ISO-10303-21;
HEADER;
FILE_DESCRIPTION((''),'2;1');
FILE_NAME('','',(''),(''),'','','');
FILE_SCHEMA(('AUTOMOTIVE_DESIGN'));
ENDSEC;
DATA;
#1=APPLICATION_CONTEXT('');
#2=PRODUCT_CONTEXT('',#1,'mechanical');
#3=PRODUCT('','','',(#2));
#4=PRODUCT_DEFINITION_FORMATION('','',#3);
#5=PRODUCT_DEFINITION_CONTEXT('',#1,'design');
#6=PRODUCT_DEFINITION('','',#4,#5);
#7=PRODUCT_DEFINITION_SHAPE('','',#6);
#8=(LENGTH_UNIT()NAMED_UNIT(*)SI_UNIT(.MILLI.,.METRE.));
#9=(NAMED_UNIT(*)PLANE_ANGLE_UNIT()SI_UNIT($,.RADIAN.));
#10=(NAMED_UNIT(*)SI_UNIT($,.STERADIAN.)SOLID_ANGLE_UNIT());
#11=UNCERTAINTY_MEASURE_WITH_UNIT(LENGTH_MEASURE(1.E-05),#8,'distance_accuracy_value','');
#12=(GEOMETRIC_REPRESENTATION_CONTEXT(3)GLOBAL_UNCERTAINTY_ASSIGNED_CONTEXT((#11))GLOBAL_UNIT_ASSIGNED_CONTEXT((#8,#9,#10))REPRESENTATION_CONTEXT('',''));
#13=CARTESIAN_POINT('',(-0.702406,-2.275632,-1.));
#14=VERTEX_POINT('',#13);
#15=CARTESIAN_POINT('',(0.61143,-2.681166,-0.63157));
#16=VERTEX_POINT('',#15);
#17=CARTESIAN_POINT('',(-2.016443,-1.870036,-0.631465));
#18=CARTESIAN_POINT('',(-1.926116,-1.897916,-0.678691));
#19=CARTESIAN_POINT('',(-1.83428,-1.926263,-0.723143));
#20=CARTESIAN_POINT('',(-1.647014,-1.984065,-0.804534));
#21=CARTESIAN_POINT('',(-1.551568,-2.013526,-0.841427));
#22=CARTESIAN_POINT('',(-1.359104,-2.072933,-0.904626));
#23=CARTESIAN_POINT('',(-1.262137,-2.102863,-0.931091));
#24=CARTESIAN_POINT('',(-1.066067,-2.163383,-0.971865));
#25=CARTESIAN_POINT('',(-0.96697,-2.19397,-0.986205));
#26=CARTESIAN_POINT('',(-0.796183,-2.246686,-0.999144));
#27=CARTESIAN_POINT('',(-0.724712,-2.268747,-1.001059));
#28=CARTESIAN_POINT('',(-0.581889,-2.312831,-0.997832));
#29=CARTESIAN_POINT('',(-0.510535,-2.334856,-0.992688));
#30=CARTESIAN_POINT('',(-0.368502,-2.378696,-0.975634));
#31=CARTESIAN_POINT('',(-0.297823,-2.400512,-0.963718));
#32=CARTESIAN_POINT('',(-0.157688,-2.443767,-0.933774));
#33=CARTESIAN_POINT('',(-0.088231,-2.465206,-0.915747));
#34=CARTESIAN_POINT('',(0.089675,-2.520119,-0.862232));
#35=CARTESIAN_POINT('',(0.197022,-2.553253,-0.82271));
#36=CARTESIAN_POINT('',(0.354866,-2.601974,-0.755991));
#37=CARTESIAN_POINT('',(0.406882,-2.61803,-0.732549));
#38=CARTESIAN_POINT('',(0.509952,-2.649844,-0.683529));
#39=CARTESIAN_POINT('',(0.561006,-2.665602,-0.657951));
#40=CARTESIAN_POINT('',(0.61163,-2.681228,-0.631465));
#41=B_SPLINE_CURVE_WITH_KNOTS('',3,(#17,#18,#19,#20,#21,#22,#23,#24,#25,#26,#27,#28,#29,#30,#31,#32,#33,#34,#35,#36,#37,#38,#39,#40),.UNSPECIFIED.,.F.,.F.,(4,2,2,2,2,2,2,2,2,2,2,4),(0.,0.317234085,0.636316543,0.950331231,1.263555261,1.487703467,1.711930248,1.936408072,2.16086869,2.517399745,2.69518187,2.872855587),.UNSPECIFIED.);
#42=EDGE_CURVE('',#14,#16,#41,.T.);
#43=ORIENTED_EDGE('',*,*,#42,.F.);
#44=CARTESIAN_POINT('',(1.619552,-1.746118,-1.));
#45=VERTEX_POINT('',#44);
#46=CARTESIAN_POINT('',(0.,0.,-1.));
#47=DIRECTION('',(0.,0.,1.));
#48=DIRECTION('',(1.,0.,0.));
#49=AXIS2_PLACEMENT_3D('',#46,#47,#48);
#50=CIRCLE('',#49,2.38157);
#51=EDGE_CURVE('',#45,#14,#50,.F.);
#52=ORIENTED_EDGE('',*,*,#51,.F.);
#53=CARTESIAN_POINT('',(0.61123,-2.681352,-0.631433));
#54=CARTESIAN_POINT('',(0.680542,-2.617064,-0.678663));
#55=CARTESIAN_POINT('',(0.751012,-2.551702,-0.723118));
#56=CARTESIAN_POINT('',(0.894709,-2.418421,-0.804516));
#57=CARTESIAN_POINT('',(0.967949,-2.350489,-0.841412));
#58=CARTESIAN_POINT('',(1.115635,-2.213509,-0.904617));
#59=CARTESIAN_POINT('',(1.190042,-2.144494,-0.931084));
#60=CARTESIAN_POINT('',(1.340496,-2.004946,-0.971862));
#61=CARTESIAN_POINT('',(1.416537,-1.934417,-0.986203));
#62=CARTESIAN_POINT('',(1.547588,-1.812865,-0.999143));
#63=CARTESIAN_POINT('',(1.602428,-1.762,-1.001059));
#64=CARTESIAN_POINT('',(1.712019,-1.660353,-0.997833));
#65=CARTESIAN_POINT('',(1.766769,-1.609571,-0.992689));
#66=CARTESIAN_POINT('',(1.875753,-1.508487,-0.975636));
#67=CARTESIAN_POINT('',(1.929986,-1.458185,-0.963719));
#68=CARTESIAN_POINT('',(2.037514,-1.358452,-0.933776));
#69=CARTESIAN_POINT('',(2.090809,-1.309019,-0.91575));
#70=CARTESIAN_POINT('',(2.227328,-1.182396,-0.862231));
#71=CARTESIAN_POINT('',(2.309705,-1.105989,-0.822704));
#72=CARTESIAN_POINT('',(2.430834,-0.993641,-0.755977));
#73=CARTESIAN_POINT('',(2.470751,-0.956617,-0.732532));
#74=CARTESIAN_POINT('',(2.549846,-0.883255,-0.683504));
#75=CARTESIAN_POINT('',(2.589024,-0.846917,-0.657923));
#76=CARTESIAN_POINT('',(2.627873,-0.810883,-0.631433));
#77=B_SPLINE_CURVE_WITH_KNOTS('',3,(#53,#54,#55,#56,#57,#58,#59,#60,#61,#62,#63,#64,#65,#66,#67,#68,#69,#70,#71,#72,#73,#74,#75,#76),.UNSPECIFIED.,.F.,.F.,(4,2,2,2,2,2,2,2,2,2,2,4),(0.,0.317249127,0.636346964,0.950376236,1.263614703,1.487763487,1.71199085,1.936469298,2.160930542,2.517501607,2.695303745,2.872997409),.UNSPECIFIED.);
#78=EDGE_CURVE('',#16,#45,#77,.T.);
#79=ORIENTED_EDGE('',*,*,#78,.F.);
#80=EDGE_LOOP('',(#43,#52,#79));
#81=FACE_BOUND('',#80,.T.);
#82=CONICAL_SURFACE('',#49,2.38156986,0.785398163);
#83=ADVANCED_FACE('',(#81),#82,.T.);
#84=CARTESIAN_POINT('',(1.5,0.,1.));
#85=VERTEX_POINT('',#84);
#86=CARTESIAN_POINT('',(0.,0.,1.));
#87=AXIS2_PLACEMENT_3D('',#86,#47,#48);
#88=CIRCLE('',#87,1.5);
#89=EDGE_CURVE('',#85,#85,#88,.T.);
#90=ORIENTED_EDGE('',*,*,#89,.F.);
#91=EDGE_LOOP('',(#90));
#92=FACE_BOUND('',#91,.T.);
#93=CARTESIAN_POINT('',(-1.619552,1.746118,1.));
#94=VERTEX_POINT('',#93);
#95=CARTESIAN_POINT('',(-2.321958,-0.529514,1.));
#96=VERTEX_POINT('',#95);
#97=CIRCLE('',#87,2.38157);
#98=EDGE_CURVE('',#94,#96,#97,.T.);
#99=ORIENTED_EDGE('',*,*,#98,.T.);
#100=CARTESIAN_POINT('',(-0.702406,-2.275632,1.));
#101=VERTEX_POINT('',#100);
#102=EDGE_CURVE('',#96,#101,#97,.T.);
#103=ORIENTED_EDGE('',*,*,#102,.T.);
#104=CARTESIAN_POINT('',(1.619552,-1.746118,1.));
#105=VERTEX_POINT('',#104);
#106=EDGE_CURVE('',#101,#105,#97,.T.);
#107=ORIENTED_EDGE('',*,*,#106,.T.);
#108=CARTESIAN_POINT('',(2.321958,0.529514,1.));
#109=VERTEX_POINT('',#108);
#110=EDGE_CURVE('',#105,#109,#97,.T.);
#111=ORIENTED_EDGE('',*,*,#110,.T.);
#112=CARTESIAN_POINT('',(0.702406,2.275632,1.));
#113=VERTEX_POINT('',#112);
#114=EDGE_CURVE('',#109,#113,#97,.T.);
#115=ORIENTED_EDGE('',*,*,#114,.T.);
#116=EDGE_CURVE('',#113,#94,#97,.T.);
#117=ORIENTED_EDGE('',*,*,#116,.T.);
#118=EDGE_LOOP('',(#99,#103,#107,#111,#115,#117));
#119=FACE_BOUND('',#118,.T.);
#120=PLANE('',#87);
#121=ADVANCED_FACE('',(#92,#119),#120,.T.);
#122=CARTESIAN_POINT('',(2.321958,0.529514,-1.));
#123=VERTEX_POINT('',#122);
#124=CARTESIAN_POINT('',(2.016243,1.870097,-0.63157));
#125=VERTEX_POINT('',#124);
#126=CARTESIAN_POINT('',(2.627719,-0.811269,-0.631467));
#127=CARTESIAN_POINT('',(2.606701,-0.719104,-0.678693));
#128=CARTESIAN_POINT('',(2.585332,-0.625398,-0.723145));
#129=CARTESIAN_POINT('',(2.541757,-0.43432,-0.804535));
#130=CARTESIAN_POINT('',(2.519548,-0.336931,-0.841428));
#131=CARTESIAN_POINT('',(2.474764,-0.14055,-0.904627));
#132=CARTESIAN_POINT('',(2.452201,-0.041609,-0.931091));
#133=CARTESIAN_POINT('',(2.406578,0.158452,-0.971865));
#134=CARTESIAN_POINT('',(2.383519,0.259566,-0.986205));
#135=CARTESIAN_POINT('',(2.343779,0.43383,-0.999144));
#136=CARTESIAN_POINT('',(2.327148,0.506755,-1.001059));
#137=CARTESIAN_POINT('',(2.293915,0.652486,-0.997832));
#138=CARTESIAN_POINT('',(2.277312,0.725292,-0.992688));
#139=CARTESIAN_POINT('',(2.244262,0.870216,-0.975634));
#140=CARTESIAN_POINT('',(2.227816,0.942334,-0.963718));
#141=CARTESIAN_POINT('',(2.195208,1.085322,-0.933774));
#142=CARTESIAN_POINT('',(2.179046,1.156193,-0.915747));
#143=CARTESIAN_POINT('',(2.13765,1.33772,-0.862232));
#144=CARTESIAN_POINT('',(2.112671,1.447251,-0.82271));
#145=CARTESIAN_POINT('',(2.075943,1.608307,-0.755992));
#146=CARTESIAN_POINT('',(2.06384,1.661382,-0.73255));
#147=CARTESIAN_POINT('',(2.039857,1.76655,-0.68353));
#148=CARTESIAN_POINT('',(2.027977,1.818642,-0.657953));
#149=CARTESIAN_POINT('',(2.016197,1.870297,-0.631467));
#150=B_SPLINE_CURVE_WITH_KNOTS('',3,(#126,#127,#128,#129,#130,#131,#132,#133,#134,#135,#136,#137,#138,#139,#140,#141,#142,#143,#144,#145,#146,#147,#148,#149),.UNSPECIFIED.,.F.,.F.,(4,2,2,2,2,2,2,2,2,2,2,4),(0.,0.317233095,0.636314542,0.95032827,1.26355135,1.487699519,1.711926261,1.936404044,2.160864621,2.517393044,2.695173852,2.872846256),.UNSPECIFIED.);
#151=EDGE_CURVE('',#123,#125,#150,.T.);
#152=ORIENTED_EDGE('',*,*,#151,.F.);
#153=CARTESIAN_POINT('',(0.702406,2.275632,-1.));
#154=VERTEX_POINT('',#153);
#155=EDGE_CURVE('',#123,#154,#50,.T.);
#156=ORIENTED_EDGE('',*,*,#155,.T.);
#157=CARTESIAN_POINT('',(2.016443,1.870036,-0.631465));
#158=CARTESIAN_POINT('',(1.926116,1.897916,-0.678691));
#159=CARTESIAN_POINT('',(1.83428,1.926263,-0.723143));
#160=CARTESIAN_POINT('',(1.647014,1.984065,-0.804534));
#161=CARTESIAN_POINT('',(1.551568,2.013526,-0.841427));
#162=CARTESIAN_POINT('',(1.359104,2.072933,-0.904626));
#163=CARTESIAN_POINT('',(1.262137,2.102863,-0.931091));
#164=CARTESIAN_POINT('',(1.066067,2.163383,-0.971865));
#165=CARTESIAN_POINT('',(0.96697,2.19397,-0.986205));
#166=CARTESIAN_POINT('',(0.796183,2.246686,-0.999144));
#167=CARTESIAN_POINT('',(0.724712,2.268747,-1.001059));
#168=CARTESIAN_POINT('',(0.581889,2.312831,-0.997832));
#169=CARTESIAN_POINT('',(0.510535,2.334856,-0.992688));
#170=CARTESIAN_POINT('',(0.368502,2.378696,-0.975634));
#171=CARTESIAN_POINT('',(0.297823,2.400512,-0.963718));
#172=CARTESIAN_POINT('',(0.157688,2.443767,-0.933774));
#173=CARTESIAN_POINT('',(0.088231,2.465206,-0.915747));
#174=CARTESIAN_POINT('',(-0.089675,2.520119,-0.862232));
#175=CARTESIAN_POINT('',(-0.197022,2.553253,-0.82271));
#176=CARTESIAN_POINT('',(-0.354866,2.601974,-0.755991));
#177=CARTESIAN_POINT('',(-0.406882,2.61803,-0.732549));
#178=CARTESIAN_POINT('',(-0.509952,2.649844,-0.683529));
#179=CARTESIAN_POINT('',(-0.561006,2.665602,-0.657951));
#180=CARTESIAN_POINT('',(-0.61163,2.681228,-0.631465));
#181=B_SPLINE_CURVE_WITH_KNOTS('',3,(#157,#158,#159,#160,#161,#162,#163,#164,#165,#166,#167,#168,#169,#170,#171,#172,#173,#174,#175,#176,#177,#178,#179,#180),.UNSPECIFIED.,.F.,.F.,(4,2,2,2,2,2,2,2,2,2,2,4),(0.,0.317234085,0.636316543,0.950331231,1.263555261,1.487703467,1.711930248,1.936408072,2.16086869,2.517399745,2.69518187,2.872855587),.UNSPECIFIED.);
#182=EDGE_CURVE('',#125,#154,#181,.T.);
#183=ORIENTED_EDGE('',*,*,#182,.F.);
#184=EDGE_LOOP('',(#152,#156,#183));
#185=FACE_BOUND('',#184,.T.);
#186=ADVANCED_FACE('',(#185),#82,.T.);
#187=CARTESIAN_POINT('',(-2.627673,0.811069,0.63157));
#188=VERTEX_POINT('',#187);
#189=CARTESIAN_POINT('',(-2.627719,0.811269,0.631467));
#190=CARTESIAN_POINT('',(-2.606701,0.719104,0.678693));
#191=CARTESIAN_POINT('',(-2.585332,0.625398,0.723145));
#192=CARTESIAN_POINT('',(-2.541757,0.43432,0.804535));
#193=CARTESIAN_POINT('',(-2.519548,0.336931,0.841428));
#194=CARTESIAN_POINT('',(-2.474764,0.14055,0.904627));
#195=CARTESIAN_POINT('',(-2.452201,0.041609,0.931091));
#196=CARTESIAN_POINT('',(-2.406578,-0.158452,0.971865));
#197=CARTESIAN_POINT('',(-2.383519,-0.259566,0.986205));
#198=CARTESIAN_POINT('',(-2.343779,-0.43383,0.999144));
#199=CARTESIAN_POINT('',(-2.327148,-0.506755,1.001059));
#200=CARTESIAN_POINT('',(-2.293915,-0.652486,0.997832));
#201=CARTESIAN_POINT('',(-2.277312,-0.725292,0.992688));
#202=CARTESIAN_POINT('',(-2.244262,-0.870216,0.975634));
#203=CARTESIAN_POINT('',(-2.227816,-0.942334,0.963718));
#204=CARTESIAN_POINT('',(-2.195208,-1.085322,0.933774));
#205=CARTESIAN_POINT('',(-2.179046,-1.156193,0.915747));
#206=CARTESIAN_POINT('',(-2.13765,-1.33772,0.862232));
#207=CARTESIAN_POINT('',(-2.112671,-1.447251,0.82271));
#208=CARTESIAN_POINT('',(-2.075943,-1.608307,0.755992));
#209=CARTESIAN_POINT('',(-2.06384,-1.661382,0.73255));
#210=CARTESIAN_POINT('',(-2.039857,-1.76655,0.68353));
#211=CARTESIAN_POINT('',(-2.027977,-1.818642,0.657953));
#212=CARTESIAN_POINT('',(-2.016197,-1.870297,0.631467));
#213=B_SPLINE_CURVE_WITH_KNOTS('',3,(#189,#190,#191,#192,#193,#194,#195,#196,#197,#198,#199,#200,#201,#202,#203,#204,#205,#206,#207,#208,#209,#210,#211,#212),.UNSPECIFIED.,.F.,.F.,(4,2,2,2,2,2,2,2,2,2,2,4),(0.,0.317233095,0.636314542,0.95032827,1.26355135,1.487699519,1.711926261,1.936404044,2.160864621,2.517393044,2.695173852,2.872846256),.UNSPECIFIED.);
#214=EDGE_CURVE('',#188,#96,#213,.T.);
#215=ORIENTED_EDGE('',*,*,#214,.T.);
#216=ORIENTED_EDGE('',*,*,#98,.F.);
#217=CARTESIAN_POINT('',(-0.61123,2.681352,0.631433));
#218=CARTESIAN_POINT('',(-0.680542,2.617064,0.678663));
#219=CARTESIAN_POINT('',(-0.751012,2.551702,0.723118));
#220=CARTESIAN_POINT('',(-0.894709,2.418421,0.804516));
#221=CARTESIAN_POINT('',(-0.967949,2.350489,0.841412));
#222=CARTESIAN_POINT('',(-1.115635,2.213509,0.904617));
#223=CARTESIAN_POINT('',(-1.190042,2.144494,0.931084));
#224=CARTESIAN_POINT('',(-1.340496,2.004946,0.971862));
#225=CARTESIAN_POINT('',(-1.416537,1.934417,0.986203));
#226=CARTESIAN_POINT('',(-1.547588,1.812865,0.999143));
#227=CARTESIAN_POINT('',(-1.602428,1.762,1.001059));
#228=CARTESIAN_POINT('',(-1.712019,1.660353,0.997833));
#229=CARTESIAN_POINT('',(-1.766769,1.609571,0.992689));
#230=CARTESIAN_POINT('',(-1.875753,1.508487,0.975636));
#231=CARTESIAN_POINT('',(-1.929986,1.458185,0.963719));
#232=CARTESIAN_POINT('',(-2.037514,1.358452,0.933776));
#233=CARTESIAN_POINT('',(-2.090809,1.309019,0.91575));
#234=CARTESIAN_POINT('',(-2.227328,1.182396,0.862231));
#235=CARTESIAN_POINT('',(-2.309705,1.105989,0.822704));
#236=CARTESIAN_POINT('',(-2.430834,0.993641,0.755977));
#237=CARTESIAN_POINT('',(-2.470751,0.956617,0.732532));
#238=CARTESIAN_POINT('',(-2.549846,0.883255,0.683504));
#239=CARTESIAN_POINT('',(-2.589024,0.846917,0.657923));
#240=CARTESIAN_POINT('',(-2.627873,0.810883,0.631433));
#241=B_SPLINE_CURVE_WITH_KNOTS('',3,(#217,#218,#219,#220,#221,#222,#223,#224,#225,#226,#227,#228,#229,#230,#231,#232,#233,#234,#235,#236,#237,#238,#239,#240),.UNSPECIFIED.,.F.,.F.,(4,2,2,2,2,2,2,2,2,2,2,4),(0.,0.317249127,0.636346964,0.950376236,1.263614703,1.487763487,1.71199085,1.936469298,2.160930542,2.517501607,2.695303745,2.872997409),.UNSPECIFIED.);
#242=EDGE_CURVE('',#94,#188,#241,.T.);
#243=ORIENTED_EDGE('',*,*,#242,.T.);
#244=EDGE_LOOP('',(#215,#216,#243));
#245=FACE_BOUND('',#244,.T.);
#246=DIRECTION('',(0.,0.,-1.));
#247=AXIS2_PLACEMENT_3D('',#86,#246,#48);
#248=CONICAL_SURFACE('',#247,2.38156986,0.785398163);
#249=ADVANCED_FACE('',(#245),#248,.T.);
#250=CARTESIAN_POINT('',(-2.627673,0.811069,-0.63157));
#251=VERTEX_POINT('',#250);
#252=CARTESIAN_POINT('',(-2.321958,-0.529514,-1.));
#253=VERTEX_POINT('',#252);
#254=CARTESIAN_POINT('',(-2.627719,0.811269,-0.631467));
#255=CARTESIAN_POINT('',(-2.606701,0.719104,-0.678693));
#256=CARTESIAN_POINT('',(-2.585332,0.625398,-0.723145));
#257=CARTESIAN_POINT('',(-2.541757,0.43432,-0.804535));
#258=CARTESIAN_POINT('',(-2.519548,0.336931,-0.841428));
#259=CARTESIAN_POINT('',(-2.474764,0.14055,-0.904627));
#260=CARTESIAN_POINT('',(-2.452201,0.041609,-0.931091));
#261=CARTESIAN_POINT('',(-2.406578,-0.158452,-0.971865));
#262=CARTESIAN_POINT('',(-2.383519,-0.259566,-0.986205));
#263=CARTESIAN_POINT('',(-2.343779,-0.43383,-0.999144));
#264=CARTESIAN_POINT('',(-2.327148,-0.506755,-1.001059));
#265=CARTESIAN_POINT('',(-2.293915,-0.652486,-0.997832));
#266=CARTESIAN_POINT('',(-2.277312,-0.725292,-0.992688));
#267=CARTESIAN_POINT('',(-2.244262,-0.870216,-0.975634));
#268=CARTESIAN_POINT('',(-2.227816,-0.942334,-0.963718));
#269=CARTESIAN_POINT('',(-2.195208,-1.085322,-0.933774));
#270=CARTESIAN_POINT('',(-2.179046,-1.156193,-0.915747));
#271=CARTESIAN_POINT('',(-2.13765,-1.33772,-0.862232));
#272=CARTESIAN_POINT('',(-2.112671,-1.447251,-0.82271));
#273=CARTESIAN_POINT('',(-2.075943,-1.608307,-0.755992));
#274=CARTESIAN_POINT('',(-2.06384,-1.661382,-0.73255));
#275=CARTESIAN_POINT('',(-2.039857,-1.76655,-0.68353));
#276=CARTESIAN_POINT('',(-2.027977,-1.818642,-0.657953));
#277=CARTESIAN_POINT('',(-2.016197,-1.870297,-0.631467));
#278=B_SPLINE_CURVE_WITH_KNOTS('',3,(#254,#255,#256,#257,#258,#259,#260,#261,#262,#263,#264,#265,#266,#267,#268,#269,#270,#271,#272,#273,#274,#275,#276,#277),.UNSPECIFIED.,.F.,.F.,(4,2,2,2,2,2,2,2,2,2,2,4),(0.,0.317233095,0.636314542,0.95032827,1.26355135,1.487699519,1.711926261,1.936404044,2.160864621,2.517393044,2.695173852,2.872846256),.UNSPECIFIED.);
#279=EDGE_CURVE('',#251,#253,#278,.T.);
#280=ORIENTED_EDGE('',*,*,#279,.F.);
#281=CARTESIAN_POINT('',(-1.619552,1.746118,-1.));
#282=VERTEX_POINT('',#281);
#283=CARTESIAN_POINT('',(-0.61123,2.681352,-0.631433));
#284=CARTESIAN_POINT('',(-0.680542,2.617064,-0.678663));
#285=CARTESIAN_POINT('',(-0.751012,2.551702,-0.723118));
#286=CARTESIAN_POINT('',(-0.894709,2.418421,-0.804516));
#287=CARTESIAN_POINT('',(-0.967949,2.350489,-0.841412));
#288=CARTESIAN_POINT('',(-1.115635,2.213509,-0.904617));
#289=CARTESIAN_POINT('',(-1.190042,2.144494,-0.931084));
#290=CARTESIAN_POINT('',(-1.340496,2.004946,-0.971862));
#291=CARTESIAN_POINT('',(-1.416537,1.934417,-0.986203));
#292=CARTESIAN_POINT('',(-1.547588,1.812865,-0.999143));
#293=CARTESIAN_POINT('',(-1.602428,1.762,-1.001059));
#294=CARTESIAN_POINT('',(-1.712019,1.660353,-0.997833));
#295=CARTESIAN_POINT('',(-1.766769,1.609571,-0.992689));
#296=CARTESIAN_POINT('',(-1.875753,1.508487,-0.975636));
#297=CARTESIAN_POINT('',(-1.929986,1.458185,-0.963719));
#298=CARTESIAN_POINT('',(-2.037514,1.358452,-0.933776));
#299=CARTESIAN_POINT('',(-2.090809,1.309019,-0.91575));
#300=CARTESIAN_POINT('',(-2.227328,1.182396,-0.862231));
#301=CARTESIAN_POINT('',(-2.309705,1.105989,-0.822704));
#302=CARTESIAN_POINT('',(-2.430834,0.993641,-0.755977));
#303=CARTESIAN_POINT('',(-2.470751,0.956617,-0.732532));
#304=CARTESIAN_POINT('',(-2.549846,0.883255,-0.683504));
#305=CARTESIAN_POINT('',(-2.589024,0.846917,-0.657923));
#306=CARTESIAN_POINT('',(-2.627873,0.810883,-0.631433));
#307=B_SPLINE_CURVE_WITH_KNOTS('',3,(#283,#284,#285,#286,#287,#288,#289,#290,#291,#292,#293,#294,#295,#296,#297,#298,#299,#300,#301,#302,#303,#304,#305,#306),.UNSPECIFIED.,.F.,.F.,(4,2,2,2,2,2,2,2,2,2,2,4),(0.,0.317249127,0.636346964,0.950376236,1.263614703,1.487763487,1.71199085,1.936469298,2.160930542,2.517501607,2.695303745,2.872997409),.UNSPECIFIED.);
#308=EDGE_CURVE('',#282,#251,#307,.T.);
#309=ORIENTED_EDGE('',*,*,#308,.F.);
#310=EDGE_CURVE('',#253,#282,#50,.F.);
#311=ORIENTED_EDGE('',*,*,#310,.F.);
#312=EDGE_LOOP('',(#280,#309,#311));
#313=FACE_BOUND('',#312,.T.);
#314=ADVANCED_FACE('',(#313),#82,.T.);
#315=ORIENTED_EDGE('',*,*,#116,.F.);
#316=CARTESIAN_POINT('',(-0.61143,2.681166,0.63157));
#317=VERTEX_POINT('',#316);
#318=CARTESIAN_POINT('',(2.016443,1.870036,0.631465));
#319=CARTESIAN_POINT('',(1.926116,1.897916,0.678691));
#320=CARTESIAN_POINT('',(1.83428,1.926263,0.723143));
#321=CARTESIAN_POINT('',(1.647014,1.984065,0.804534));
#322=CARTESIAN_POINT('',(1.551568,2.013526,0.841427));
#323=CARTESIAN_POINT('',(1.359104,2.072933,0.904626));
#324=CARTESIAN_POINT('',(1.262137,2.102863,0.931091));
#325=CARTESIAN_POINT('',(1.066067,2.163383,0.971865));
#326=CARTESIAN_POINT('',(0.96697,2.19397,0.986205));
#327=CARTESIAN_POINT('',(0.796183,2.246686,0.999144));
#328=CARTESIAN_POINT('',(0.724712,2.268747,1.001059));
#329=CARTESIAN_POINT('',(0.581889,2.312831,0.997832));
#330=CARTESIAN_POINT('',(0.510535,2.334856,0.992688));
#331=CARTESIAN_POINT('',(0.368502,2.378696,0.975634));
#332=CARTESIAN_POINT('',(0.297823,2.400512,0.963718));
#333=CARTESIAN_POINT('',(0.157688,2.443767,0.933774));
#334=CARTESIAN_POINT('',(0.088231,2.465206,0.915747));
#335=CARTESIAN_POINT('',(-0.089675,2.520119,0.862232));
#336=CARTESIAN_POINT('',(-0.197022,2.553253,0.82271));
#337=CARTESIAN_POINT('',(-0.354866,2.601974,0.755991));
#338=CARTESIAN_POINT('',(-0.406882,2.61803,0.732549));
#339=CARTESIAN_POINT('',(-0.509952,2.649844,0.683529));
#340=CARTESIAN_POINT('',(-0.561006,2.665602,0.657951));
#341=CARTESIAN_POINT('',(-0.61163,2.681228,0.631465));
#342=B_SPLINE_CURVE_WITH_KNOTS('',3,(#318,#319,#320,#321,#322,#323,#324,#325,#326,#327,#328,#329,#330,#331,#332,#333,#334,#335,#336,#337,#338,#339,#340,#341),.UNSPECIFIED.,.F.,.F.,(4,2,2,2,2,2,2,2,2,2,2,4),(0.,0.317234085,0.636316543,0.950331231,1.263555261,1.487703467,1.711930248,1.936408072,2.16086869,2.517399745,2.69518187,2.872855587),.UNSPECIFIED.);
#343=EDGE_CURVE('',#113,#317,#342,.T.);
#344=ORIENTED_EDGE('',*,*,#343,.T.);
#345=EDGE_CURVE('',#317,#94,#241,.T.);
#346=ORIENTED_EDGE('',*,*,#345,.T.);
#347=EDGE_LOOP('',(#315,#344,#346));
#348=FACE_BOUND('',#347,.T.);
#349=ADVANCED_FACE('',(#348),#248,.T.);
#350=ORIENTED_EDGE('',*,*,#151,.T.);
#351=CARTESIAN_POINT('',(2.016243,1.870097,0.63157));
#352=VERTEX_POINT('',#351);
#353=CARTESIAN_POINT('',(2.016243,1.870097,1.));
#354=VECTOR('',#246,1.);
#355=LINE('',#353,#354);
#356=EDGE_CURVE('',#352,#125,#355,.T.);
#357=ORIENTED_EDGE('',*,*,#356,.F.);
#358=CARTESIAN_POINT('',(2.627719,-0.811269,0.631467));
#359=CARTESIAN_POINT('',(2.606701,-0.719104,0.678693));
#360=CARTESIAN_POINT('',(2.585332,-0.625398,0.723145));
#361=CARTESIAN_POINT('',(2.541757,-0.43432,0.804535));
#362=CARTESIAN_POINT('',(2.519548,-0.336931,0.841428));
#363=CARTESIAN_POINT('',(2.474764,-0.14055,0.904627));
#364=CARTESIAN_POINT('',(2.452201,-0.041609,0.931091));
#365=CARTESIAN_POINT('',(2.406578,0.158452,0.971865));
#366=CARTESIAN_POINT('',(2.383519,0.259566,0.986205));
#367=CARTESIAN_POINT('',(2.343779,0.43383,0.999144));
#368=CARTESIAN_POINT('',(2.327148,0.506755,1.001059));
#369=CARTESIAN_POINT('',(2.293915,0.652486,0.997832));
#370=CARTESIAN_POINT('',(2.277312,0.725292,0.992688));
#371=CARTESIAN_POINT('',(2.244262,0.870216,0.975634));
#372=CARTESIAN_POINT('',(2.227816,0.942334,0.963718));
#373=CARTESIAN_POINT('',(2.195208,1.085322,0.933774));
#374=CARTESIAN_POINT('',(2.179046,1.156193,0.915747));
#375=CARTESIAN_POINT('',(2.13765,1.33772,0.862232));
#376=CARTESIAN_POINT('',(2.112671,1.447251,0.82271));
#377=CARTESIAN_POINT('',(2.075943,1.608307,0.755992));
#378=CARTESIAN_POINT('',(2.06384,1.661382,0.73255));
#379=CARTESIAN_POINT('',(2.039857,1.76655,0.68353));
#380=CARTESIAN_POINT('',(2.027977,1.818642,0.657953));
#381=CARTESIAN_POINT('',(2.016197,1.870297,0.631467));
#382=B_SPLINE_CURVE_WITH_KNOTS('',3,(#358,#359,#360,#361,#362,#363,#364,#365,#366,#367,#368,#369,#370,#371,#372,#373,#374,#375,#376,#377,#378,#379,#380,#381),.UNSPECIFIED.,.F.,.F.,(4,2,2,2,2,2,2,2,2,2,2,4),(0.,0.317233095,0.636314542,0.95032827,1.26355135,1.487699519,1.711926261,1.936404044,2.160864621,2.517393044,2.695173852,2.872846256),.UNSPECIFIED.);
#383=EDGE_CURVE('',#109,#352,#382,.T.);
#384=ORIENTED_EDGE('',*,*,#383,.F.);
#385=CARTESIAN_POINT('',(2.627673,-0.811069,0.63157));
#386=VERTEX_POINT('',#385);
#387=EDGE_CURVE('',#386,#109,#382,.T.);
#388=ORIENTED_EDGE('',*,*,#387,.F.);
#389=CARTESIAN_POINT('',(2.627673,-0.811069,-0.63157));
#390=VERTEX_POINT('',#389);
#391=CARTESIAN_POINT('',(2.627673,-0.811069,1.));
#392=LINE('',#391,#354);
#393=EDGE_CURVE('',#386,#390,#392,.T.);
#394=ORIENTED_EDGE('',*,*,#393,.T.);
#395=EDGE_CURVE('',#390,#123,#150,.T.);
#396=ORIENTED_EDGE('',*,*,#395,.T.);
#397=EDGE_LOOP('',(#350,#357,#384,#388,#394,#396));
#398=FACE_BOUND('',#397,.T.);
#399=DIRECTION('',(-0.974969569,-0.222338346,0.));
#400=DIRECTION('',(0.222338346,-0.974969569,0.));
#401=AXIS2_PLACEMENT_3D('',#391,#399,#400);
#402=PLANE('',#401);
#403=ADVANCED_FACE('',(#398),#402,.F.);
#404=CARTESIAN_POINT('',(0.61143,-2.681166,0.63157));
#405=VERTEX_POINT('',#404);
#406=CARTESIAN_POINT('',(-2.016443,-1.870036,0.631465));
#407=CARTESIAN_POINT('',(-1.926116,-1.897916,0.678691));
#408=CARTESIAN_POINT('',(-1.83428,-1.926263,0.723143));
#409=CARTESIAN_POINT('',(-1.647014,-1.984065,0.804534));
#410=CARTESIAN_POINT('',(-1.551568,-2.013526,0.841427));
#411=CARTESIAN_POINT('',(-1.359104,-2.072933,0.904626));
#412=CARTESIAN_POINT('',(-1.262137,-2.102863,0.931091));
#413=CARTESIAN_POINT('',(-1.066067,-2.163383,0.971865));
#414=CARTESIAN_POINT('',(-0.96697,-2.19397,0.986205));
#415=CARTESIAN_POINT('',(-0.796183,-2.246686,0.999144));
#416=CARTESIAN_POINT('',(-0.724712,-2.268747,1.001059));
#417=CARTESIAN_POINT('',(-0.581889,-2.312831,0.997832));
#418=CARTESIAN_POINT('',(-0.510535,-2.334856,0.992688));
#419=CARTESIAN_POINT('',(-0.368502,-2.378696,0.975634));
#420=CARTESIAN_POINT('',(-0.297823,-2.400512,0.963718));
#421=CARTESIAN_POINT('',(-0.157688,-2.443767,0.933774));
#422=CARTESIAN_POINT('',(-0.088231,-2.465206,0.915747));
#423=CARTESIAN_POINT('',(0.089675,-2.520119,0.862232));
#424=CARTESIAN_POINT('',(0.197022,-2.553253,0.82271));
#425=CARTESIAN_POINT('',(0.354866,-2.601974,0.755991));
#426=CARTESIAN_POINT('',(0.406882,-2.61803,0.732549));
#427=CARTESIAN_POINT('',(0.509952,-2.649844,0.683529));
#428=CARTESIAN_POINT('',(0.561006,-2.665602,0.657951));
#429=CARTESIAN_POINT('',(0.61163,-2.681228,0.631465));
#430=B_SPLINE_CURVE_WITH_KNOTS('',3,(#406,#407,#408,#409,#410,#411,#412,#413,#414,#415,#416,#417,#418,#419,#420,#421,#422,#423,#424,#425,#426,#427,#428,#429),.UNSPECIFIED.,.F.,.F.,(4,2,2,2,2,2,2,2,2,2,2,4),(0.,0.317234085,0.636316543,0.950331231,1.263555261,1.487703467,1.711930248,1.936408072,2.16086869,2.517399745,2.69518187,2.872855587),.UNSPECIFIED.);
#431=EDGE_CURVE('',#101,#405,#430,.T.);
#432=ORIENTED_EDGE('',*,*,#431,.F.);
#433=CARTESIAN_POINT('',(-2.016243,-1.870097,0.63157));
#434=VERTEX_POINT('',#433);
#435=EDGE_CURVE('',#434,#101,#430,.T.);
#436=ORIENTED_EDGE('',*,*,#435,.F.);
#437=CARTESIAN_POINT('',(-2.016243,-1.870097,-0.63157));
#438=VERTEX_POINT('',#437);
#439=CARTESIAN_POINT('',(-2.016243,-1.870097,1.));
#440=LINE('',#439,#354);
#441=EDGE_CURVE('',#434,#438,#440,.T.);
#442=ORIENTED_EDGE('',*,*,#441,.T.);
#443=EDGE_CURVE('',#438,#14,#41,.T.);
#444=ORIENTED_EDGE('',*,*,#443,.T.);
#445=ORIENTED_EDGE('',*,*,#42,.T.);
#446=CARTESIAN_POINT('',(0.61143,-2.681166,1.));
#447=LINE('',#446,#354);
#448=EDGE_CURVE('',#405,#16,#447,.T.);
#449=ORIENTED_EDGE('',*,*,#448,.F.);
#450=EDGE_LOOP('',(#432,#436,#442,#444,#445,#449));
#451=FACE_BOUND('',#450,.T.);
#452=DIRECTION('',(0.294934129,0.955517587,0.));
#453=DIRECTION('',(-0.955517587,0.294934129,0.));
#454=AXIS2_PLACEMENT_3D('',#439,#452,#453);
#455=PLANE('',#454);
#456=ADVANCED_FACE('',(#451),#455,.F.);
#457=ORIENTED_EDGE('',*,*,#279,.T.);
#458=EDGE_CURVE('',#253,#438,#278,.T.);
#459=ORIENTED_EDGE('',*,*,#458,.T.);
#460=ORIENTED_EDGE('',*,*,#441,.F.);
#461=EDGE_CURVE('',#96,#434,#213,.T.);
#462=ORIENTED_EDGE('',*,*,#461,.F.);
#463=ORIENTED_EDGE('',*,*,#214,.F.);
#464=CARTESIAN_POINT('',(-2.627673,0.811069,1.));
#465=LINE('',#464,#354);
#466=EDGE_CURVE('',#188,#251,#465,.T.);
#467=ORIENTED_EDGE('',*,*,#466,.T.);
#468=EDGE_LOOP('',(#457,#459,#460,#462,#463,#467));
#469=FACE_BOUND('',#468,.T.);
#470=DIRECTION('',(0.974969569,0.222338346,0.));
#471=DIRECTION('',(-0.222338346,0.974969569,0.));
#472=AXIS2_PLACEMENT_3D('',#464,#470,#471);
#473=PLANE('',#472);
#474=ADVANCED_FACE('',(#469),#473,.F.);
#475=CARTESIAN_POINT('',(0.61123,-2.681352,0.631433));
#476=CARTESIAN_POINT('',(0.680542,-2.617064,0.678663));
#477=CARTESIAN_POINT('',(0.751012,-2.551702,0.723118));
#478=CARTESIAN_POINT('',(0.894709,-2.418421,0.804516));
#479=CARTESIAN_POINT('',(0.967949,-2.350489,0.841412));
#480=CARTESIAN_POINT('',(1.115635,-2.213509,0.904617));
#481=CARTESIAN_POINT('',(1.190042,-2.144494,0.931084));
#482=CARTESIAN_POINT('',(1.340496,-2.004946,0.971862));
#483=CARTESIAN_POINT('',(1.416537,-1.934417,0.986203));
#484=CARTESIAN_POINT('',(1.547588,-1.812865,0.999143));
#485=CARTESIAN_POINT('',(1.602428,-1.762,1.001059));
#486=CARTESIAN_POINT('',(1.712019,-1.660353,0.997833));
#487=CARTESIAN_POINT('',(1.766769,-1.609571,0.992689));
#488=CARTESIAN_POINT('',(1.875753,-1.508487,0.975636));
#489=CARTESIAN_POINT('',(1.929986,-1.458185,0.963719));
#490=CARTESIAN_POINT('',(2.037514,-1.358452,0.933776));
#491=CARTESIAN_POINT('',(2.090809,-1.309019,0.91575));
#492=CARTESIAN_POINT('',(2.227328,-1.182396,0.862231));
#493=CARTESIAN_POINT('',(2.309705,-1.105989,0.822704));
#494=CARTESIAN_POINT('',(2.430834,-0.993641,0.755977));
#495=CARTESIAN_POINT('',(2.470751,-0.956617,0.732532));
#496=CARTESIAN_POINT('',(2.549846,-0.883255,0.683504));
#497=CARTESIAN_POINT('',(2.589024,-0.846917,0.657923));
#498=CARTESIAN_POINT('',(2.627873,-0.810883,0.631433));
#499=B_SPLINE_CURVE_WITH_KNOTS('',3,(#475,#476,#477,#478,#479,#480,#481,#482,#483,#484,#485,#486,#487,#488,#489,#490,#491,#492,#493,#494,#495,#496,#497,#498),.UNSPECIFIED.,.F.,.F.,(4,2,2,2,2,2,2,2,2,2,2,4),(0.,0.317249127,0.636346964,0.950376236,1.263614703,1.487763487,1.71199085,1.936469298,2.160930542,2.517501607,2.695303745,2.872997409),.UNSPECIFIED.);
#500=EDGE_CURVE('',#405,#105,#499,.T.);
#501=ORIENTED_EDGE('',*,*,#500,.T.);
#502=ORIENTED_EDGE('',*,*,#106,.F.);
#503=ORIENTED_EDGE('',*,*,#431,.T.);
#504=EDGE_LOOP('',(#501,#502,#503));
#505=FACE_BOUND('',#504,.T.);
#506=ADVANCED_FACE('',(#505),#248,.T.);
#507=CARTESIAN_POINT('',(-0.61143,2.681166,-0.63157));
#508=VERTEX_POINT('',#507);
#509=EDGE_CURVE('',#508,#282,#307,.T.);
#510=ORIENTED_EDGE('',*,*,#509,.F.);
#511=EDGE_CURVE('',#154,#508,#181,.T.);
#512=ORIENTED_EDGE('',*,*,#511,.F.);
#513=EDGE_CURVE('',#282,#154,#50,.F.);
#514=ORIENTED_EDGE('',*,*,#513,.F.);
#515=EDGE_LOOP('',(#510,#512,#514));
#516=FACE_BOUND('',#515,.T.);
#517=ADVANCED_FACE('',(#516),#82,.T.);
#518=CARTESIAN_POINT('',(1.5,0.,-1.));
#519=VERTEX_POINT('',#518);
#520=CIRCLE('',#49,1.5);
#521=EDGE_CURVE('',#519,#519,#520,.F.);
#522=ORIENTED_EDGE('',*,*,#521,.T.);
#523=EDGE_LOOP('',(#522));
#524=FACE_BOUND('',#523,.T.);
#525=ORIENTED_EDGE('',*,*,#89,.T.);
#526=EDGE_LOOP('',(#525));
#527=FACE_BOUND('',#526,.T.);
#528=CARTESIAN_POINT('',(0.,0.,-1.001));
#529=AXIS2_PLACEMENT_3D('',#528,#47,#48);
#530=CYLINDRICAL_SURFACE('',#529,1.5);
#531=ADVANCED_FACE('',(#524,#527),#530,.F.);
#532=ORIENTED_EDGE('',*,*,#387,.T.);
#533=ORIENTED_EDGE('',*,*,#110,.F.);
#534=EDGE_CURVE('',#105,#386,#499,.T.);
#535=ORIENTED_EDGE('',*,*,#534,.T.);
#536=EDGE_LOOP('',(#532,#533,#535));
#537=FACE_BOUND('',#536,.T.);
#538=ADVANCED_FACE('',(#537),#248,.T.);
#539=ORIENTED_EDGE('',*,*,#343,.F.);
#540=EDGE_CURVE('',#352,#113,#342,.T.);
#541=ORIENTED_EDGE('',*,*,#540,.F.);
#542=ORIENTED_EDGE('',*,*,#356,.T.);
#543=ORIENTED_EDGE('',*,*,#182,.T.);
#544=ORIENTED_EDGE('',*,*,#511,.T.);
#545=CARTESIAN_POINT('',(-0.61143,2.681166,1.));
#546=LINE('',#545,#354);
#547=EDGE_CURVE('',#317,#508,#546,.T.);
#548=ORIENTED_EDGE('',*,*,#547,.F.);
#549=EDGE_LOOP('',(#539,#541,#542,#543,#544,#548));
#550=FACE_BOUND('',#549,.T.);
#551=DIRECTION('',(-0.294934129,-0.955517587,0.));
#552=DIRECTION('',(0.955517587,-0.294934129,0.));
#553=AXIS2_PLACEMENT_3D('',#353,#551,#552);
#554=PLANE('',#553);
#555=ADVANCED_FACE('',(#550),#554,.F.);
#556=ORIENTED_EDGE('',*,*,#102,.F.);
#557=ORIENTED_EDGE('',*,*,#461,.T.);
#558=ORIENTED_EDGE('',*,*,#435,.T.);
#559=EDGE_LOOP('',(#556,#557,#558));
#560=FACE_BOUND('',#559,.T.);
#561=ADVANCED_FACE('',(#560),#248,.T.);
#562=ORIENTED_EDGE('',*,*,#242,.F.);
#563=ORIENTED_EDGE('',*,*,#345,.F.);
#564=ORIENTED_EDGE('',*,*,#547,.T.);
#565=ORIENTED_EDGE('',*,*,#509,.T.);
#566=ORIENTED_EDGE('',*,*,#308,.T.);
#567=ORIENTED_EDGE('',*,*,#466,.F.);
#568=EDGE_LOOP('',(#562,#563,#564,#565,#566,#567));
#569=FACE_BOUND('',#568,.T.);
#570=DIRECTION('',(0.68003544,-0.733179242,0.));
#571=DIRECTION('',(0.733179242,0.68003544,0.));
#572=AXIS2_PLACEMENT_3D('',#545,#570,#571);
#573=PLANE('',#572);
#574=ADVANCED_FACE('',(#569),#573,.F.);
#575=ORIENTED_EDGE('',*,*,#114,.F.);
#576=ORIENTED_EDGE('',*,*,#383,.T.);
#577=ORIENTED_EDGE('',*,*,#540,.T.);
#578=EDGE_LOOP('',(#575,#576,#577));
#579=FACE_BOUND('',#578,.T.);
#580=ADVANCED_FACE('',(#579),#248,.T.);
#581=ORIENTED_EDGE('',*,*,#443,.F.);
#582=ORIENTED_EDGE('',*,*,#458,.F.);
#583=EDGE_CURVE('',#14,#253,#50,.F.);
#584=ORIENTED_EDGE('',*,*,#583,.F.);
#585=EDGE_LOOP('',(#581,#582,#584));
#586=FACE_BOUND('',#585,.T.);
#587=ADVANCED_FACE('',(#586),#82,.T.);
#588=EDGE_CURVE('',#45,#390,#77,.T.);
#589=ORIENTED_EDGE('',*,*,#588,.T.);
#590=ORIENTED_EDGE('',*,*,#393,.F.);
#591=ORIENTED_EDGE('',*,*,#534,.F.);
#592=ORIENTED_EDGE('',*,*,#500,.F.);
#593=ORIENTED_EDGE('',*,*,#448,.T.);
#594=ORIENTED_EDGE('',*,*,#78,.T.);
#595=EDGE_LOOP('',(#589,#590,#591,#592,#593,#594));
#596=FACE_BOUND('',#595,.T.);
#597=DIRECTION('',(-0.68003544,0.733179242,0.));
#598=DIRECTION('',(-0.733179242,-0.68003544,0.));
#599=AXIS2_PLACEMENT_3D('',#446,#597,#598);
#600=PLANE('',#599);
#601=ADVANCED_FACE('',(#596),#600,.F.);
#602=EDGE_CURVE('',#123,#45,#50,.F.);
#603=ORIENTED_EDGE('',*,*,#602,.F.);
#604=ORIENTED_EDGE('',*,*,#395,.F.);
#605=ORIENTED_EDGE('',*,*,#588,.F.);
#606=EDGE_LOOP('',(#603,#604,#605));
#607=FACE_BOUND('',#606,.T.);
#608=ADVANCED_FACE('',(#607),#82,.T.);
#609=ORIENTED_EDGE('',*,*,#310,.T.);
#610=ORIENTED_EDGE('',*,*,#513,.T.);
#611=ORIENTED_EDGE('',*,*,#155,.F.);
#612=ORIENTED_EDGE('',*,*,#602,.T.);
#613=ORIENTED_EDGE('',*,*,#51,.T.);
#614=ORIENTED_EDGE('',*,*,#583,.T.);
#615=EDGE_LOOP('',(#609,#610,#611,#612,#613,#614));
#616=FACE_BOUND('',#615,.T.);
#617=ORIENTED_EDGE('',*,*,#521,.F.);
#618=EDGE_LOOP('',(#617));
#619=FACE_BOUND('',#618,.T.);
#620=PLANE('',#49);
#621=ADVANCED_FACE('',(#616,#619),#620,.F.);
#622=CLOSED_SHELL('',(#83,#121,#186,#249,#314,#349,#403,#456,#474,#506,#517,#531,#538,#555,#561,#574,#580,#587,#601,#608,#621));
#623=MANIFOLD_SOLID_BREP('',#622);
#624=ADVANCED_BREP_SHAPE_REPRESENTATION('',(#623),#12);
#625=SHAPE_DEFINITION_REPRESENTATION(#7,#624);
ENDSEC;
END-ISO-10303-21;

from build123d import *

# Parameters (mm, degrees)
BOSS_EXTRUDE1_DEPTH      = 1
BOSS_EXTRUDE1_DEPTH_BACK = 1
CUT_EXTRUDE1_REACH       = 6.254
SKETCH2_R                = 1.5
SKETCH19_OUTSIDE_W       = 10.31
SKETCH19_OUTSIDE_H       = 10.416
SKETCH19_OUTSIDE_R       = 2.38156986
CUT_EXTRUDE7_DEPTH       = 0.75
CUT_EXTRUDE7_DRAFT       = -45
MIRROR1_COPY_1_SKETCH_W  = 10.31
MIRROR1_COPY_1_SKETCH_H  = 10.416
MIRROR1_COPY_1_SKETCH_R  = 2.38156986
MIRROR1_COPY_1_DEPTH     = 0.75
MIRROR1_COPY_1_DRAFT     = -45


with BuildPart() as part:
    # Sketch1 → Boss-Extrude1 (new, two sides: drawn at the far end of the back side and taken through both)
    with BuildSketch(Plane.XY.offset(-BOSS_EXTRUDE1_DEPTH_BACK)):
        Polygon((2.627673365, -0.811068855), (2.016242915, 1.87009746), (-0.61143045, 2.681166314), (-2.627673365, 0.811068855), (-2.016242915, -1.87009746), (0.61143045, -2.681166314), align=None)
    extrude(amount=BOSS_EXTRUDE1_DEPTH + BOSS_EXTRUDE1_DEPTH_BACK)

    # Sketch2 → Cut-Extrude1 (cut, up to next)
    with BuildSketch(Plane.XY.offset(1), mode=Mode.PRIVATE) as cut_extrude1_sk1:
        Circle(SKETCH2_R)
    cut_extrude1_tool1 = extrude(cut_extrude1_sk1.sketch, amount=-CUT_EXTRUDE1_REACH, mode=Mode.PRIVATE) & part.part
    add(cut_extrude1_tool1.solids().sort_by_distance((0, 0, 1))[0], mode=Mode.SUBTRACT)


with BuildPart() as cut_extrude7_tool:
    # Sketch19 outside → Cut-Extrude7 (with draft: the straight prism first)
    with BuildSketch(Plane.XY.offset(1)):
        Rectangle(SKETCH19_OUTSIDE_W, SKETCH19_OUTSIDE_H)
        Circle(SKETCH19_OUTSIDE_R, mode=Mode.SUBTRACT)
    extrude(amount=-CUT_EXTRUDE7_DEPTH)
    # Cut-Extrude7: the draft: its side faces are tilted about the plane it starts from
    cut_extrude7_sides = [cut_extrude7_tool.faces().sort_by_distance(p)[0] for p in [
        (0, -5.208, 0.625),
        (5.155, 0, 0.625),
        (0, 5.208, 0.625),
        (-5.155, 0, 0.625),
        (-2.38156986, 0, 0.625),
    ]]
    draft(cut_extrude7_sides, Plane.XY.offset(1), CUT_EXTRUDE7_DRAFT)


with BuildPart() as part_1:
    add(part.part)

    # Cut-Extrude7: cut by cut_extrude7_tool
    add(cut_extrude7_tool.part, mode=Mode.SUBTRACT)


with BuildPart() as mirror1_copy_1_tool:
    # Mirror1 copy 1 sketch → Mirror1 copy 1 (with draft: the straight prism first)
    with BuildSketch(Plane(origin=(0, 0, -1), x_dir=(1, 0, 0), z_dir=(0, 0, -1))):
        Rectangle(MIRROR1_COPY_1_SKETCH_W, MIRROR1_COPY_1_SKETCH_H)
        Circle(MIRROR1_COPY_1_SKETCH_R, mode=Mode.SUBTRACT)
    extrude(amount=-MIRROR1_COPY_1_DEPTH)
    # Mirror1 copy 1: the draft: its side faces are tilted about the plane it starts from
    mirror1_copy_1_sides = [mirror1_copy_1_tool.faces().sort_by_distance(p)[0] for p in [
        (0, -5.208, -0.625),
        (5.155, 0, -0.625),
        (0, 5.208, -0.625),
        (-5.155, 0, -0.625),
        (-2.38156986, 0, -0.625),
    ]]
    draft(mirror1_copy_1_sides, Plane(origin=(0, 0, -1), x_dir=(1, 0, 0), z_dir=(0, 0, -1)), MIRROR1_COPY_1_DRAFT)


with BuildPart() as part_2:
    add(part_1.part)

    # Mirror1 copy 1: cut by mirror1_copy_1_tool
    add(mirror1_copy_1_tool.part, mode=Mode.SUBTRACT)


solid = part_2.part
